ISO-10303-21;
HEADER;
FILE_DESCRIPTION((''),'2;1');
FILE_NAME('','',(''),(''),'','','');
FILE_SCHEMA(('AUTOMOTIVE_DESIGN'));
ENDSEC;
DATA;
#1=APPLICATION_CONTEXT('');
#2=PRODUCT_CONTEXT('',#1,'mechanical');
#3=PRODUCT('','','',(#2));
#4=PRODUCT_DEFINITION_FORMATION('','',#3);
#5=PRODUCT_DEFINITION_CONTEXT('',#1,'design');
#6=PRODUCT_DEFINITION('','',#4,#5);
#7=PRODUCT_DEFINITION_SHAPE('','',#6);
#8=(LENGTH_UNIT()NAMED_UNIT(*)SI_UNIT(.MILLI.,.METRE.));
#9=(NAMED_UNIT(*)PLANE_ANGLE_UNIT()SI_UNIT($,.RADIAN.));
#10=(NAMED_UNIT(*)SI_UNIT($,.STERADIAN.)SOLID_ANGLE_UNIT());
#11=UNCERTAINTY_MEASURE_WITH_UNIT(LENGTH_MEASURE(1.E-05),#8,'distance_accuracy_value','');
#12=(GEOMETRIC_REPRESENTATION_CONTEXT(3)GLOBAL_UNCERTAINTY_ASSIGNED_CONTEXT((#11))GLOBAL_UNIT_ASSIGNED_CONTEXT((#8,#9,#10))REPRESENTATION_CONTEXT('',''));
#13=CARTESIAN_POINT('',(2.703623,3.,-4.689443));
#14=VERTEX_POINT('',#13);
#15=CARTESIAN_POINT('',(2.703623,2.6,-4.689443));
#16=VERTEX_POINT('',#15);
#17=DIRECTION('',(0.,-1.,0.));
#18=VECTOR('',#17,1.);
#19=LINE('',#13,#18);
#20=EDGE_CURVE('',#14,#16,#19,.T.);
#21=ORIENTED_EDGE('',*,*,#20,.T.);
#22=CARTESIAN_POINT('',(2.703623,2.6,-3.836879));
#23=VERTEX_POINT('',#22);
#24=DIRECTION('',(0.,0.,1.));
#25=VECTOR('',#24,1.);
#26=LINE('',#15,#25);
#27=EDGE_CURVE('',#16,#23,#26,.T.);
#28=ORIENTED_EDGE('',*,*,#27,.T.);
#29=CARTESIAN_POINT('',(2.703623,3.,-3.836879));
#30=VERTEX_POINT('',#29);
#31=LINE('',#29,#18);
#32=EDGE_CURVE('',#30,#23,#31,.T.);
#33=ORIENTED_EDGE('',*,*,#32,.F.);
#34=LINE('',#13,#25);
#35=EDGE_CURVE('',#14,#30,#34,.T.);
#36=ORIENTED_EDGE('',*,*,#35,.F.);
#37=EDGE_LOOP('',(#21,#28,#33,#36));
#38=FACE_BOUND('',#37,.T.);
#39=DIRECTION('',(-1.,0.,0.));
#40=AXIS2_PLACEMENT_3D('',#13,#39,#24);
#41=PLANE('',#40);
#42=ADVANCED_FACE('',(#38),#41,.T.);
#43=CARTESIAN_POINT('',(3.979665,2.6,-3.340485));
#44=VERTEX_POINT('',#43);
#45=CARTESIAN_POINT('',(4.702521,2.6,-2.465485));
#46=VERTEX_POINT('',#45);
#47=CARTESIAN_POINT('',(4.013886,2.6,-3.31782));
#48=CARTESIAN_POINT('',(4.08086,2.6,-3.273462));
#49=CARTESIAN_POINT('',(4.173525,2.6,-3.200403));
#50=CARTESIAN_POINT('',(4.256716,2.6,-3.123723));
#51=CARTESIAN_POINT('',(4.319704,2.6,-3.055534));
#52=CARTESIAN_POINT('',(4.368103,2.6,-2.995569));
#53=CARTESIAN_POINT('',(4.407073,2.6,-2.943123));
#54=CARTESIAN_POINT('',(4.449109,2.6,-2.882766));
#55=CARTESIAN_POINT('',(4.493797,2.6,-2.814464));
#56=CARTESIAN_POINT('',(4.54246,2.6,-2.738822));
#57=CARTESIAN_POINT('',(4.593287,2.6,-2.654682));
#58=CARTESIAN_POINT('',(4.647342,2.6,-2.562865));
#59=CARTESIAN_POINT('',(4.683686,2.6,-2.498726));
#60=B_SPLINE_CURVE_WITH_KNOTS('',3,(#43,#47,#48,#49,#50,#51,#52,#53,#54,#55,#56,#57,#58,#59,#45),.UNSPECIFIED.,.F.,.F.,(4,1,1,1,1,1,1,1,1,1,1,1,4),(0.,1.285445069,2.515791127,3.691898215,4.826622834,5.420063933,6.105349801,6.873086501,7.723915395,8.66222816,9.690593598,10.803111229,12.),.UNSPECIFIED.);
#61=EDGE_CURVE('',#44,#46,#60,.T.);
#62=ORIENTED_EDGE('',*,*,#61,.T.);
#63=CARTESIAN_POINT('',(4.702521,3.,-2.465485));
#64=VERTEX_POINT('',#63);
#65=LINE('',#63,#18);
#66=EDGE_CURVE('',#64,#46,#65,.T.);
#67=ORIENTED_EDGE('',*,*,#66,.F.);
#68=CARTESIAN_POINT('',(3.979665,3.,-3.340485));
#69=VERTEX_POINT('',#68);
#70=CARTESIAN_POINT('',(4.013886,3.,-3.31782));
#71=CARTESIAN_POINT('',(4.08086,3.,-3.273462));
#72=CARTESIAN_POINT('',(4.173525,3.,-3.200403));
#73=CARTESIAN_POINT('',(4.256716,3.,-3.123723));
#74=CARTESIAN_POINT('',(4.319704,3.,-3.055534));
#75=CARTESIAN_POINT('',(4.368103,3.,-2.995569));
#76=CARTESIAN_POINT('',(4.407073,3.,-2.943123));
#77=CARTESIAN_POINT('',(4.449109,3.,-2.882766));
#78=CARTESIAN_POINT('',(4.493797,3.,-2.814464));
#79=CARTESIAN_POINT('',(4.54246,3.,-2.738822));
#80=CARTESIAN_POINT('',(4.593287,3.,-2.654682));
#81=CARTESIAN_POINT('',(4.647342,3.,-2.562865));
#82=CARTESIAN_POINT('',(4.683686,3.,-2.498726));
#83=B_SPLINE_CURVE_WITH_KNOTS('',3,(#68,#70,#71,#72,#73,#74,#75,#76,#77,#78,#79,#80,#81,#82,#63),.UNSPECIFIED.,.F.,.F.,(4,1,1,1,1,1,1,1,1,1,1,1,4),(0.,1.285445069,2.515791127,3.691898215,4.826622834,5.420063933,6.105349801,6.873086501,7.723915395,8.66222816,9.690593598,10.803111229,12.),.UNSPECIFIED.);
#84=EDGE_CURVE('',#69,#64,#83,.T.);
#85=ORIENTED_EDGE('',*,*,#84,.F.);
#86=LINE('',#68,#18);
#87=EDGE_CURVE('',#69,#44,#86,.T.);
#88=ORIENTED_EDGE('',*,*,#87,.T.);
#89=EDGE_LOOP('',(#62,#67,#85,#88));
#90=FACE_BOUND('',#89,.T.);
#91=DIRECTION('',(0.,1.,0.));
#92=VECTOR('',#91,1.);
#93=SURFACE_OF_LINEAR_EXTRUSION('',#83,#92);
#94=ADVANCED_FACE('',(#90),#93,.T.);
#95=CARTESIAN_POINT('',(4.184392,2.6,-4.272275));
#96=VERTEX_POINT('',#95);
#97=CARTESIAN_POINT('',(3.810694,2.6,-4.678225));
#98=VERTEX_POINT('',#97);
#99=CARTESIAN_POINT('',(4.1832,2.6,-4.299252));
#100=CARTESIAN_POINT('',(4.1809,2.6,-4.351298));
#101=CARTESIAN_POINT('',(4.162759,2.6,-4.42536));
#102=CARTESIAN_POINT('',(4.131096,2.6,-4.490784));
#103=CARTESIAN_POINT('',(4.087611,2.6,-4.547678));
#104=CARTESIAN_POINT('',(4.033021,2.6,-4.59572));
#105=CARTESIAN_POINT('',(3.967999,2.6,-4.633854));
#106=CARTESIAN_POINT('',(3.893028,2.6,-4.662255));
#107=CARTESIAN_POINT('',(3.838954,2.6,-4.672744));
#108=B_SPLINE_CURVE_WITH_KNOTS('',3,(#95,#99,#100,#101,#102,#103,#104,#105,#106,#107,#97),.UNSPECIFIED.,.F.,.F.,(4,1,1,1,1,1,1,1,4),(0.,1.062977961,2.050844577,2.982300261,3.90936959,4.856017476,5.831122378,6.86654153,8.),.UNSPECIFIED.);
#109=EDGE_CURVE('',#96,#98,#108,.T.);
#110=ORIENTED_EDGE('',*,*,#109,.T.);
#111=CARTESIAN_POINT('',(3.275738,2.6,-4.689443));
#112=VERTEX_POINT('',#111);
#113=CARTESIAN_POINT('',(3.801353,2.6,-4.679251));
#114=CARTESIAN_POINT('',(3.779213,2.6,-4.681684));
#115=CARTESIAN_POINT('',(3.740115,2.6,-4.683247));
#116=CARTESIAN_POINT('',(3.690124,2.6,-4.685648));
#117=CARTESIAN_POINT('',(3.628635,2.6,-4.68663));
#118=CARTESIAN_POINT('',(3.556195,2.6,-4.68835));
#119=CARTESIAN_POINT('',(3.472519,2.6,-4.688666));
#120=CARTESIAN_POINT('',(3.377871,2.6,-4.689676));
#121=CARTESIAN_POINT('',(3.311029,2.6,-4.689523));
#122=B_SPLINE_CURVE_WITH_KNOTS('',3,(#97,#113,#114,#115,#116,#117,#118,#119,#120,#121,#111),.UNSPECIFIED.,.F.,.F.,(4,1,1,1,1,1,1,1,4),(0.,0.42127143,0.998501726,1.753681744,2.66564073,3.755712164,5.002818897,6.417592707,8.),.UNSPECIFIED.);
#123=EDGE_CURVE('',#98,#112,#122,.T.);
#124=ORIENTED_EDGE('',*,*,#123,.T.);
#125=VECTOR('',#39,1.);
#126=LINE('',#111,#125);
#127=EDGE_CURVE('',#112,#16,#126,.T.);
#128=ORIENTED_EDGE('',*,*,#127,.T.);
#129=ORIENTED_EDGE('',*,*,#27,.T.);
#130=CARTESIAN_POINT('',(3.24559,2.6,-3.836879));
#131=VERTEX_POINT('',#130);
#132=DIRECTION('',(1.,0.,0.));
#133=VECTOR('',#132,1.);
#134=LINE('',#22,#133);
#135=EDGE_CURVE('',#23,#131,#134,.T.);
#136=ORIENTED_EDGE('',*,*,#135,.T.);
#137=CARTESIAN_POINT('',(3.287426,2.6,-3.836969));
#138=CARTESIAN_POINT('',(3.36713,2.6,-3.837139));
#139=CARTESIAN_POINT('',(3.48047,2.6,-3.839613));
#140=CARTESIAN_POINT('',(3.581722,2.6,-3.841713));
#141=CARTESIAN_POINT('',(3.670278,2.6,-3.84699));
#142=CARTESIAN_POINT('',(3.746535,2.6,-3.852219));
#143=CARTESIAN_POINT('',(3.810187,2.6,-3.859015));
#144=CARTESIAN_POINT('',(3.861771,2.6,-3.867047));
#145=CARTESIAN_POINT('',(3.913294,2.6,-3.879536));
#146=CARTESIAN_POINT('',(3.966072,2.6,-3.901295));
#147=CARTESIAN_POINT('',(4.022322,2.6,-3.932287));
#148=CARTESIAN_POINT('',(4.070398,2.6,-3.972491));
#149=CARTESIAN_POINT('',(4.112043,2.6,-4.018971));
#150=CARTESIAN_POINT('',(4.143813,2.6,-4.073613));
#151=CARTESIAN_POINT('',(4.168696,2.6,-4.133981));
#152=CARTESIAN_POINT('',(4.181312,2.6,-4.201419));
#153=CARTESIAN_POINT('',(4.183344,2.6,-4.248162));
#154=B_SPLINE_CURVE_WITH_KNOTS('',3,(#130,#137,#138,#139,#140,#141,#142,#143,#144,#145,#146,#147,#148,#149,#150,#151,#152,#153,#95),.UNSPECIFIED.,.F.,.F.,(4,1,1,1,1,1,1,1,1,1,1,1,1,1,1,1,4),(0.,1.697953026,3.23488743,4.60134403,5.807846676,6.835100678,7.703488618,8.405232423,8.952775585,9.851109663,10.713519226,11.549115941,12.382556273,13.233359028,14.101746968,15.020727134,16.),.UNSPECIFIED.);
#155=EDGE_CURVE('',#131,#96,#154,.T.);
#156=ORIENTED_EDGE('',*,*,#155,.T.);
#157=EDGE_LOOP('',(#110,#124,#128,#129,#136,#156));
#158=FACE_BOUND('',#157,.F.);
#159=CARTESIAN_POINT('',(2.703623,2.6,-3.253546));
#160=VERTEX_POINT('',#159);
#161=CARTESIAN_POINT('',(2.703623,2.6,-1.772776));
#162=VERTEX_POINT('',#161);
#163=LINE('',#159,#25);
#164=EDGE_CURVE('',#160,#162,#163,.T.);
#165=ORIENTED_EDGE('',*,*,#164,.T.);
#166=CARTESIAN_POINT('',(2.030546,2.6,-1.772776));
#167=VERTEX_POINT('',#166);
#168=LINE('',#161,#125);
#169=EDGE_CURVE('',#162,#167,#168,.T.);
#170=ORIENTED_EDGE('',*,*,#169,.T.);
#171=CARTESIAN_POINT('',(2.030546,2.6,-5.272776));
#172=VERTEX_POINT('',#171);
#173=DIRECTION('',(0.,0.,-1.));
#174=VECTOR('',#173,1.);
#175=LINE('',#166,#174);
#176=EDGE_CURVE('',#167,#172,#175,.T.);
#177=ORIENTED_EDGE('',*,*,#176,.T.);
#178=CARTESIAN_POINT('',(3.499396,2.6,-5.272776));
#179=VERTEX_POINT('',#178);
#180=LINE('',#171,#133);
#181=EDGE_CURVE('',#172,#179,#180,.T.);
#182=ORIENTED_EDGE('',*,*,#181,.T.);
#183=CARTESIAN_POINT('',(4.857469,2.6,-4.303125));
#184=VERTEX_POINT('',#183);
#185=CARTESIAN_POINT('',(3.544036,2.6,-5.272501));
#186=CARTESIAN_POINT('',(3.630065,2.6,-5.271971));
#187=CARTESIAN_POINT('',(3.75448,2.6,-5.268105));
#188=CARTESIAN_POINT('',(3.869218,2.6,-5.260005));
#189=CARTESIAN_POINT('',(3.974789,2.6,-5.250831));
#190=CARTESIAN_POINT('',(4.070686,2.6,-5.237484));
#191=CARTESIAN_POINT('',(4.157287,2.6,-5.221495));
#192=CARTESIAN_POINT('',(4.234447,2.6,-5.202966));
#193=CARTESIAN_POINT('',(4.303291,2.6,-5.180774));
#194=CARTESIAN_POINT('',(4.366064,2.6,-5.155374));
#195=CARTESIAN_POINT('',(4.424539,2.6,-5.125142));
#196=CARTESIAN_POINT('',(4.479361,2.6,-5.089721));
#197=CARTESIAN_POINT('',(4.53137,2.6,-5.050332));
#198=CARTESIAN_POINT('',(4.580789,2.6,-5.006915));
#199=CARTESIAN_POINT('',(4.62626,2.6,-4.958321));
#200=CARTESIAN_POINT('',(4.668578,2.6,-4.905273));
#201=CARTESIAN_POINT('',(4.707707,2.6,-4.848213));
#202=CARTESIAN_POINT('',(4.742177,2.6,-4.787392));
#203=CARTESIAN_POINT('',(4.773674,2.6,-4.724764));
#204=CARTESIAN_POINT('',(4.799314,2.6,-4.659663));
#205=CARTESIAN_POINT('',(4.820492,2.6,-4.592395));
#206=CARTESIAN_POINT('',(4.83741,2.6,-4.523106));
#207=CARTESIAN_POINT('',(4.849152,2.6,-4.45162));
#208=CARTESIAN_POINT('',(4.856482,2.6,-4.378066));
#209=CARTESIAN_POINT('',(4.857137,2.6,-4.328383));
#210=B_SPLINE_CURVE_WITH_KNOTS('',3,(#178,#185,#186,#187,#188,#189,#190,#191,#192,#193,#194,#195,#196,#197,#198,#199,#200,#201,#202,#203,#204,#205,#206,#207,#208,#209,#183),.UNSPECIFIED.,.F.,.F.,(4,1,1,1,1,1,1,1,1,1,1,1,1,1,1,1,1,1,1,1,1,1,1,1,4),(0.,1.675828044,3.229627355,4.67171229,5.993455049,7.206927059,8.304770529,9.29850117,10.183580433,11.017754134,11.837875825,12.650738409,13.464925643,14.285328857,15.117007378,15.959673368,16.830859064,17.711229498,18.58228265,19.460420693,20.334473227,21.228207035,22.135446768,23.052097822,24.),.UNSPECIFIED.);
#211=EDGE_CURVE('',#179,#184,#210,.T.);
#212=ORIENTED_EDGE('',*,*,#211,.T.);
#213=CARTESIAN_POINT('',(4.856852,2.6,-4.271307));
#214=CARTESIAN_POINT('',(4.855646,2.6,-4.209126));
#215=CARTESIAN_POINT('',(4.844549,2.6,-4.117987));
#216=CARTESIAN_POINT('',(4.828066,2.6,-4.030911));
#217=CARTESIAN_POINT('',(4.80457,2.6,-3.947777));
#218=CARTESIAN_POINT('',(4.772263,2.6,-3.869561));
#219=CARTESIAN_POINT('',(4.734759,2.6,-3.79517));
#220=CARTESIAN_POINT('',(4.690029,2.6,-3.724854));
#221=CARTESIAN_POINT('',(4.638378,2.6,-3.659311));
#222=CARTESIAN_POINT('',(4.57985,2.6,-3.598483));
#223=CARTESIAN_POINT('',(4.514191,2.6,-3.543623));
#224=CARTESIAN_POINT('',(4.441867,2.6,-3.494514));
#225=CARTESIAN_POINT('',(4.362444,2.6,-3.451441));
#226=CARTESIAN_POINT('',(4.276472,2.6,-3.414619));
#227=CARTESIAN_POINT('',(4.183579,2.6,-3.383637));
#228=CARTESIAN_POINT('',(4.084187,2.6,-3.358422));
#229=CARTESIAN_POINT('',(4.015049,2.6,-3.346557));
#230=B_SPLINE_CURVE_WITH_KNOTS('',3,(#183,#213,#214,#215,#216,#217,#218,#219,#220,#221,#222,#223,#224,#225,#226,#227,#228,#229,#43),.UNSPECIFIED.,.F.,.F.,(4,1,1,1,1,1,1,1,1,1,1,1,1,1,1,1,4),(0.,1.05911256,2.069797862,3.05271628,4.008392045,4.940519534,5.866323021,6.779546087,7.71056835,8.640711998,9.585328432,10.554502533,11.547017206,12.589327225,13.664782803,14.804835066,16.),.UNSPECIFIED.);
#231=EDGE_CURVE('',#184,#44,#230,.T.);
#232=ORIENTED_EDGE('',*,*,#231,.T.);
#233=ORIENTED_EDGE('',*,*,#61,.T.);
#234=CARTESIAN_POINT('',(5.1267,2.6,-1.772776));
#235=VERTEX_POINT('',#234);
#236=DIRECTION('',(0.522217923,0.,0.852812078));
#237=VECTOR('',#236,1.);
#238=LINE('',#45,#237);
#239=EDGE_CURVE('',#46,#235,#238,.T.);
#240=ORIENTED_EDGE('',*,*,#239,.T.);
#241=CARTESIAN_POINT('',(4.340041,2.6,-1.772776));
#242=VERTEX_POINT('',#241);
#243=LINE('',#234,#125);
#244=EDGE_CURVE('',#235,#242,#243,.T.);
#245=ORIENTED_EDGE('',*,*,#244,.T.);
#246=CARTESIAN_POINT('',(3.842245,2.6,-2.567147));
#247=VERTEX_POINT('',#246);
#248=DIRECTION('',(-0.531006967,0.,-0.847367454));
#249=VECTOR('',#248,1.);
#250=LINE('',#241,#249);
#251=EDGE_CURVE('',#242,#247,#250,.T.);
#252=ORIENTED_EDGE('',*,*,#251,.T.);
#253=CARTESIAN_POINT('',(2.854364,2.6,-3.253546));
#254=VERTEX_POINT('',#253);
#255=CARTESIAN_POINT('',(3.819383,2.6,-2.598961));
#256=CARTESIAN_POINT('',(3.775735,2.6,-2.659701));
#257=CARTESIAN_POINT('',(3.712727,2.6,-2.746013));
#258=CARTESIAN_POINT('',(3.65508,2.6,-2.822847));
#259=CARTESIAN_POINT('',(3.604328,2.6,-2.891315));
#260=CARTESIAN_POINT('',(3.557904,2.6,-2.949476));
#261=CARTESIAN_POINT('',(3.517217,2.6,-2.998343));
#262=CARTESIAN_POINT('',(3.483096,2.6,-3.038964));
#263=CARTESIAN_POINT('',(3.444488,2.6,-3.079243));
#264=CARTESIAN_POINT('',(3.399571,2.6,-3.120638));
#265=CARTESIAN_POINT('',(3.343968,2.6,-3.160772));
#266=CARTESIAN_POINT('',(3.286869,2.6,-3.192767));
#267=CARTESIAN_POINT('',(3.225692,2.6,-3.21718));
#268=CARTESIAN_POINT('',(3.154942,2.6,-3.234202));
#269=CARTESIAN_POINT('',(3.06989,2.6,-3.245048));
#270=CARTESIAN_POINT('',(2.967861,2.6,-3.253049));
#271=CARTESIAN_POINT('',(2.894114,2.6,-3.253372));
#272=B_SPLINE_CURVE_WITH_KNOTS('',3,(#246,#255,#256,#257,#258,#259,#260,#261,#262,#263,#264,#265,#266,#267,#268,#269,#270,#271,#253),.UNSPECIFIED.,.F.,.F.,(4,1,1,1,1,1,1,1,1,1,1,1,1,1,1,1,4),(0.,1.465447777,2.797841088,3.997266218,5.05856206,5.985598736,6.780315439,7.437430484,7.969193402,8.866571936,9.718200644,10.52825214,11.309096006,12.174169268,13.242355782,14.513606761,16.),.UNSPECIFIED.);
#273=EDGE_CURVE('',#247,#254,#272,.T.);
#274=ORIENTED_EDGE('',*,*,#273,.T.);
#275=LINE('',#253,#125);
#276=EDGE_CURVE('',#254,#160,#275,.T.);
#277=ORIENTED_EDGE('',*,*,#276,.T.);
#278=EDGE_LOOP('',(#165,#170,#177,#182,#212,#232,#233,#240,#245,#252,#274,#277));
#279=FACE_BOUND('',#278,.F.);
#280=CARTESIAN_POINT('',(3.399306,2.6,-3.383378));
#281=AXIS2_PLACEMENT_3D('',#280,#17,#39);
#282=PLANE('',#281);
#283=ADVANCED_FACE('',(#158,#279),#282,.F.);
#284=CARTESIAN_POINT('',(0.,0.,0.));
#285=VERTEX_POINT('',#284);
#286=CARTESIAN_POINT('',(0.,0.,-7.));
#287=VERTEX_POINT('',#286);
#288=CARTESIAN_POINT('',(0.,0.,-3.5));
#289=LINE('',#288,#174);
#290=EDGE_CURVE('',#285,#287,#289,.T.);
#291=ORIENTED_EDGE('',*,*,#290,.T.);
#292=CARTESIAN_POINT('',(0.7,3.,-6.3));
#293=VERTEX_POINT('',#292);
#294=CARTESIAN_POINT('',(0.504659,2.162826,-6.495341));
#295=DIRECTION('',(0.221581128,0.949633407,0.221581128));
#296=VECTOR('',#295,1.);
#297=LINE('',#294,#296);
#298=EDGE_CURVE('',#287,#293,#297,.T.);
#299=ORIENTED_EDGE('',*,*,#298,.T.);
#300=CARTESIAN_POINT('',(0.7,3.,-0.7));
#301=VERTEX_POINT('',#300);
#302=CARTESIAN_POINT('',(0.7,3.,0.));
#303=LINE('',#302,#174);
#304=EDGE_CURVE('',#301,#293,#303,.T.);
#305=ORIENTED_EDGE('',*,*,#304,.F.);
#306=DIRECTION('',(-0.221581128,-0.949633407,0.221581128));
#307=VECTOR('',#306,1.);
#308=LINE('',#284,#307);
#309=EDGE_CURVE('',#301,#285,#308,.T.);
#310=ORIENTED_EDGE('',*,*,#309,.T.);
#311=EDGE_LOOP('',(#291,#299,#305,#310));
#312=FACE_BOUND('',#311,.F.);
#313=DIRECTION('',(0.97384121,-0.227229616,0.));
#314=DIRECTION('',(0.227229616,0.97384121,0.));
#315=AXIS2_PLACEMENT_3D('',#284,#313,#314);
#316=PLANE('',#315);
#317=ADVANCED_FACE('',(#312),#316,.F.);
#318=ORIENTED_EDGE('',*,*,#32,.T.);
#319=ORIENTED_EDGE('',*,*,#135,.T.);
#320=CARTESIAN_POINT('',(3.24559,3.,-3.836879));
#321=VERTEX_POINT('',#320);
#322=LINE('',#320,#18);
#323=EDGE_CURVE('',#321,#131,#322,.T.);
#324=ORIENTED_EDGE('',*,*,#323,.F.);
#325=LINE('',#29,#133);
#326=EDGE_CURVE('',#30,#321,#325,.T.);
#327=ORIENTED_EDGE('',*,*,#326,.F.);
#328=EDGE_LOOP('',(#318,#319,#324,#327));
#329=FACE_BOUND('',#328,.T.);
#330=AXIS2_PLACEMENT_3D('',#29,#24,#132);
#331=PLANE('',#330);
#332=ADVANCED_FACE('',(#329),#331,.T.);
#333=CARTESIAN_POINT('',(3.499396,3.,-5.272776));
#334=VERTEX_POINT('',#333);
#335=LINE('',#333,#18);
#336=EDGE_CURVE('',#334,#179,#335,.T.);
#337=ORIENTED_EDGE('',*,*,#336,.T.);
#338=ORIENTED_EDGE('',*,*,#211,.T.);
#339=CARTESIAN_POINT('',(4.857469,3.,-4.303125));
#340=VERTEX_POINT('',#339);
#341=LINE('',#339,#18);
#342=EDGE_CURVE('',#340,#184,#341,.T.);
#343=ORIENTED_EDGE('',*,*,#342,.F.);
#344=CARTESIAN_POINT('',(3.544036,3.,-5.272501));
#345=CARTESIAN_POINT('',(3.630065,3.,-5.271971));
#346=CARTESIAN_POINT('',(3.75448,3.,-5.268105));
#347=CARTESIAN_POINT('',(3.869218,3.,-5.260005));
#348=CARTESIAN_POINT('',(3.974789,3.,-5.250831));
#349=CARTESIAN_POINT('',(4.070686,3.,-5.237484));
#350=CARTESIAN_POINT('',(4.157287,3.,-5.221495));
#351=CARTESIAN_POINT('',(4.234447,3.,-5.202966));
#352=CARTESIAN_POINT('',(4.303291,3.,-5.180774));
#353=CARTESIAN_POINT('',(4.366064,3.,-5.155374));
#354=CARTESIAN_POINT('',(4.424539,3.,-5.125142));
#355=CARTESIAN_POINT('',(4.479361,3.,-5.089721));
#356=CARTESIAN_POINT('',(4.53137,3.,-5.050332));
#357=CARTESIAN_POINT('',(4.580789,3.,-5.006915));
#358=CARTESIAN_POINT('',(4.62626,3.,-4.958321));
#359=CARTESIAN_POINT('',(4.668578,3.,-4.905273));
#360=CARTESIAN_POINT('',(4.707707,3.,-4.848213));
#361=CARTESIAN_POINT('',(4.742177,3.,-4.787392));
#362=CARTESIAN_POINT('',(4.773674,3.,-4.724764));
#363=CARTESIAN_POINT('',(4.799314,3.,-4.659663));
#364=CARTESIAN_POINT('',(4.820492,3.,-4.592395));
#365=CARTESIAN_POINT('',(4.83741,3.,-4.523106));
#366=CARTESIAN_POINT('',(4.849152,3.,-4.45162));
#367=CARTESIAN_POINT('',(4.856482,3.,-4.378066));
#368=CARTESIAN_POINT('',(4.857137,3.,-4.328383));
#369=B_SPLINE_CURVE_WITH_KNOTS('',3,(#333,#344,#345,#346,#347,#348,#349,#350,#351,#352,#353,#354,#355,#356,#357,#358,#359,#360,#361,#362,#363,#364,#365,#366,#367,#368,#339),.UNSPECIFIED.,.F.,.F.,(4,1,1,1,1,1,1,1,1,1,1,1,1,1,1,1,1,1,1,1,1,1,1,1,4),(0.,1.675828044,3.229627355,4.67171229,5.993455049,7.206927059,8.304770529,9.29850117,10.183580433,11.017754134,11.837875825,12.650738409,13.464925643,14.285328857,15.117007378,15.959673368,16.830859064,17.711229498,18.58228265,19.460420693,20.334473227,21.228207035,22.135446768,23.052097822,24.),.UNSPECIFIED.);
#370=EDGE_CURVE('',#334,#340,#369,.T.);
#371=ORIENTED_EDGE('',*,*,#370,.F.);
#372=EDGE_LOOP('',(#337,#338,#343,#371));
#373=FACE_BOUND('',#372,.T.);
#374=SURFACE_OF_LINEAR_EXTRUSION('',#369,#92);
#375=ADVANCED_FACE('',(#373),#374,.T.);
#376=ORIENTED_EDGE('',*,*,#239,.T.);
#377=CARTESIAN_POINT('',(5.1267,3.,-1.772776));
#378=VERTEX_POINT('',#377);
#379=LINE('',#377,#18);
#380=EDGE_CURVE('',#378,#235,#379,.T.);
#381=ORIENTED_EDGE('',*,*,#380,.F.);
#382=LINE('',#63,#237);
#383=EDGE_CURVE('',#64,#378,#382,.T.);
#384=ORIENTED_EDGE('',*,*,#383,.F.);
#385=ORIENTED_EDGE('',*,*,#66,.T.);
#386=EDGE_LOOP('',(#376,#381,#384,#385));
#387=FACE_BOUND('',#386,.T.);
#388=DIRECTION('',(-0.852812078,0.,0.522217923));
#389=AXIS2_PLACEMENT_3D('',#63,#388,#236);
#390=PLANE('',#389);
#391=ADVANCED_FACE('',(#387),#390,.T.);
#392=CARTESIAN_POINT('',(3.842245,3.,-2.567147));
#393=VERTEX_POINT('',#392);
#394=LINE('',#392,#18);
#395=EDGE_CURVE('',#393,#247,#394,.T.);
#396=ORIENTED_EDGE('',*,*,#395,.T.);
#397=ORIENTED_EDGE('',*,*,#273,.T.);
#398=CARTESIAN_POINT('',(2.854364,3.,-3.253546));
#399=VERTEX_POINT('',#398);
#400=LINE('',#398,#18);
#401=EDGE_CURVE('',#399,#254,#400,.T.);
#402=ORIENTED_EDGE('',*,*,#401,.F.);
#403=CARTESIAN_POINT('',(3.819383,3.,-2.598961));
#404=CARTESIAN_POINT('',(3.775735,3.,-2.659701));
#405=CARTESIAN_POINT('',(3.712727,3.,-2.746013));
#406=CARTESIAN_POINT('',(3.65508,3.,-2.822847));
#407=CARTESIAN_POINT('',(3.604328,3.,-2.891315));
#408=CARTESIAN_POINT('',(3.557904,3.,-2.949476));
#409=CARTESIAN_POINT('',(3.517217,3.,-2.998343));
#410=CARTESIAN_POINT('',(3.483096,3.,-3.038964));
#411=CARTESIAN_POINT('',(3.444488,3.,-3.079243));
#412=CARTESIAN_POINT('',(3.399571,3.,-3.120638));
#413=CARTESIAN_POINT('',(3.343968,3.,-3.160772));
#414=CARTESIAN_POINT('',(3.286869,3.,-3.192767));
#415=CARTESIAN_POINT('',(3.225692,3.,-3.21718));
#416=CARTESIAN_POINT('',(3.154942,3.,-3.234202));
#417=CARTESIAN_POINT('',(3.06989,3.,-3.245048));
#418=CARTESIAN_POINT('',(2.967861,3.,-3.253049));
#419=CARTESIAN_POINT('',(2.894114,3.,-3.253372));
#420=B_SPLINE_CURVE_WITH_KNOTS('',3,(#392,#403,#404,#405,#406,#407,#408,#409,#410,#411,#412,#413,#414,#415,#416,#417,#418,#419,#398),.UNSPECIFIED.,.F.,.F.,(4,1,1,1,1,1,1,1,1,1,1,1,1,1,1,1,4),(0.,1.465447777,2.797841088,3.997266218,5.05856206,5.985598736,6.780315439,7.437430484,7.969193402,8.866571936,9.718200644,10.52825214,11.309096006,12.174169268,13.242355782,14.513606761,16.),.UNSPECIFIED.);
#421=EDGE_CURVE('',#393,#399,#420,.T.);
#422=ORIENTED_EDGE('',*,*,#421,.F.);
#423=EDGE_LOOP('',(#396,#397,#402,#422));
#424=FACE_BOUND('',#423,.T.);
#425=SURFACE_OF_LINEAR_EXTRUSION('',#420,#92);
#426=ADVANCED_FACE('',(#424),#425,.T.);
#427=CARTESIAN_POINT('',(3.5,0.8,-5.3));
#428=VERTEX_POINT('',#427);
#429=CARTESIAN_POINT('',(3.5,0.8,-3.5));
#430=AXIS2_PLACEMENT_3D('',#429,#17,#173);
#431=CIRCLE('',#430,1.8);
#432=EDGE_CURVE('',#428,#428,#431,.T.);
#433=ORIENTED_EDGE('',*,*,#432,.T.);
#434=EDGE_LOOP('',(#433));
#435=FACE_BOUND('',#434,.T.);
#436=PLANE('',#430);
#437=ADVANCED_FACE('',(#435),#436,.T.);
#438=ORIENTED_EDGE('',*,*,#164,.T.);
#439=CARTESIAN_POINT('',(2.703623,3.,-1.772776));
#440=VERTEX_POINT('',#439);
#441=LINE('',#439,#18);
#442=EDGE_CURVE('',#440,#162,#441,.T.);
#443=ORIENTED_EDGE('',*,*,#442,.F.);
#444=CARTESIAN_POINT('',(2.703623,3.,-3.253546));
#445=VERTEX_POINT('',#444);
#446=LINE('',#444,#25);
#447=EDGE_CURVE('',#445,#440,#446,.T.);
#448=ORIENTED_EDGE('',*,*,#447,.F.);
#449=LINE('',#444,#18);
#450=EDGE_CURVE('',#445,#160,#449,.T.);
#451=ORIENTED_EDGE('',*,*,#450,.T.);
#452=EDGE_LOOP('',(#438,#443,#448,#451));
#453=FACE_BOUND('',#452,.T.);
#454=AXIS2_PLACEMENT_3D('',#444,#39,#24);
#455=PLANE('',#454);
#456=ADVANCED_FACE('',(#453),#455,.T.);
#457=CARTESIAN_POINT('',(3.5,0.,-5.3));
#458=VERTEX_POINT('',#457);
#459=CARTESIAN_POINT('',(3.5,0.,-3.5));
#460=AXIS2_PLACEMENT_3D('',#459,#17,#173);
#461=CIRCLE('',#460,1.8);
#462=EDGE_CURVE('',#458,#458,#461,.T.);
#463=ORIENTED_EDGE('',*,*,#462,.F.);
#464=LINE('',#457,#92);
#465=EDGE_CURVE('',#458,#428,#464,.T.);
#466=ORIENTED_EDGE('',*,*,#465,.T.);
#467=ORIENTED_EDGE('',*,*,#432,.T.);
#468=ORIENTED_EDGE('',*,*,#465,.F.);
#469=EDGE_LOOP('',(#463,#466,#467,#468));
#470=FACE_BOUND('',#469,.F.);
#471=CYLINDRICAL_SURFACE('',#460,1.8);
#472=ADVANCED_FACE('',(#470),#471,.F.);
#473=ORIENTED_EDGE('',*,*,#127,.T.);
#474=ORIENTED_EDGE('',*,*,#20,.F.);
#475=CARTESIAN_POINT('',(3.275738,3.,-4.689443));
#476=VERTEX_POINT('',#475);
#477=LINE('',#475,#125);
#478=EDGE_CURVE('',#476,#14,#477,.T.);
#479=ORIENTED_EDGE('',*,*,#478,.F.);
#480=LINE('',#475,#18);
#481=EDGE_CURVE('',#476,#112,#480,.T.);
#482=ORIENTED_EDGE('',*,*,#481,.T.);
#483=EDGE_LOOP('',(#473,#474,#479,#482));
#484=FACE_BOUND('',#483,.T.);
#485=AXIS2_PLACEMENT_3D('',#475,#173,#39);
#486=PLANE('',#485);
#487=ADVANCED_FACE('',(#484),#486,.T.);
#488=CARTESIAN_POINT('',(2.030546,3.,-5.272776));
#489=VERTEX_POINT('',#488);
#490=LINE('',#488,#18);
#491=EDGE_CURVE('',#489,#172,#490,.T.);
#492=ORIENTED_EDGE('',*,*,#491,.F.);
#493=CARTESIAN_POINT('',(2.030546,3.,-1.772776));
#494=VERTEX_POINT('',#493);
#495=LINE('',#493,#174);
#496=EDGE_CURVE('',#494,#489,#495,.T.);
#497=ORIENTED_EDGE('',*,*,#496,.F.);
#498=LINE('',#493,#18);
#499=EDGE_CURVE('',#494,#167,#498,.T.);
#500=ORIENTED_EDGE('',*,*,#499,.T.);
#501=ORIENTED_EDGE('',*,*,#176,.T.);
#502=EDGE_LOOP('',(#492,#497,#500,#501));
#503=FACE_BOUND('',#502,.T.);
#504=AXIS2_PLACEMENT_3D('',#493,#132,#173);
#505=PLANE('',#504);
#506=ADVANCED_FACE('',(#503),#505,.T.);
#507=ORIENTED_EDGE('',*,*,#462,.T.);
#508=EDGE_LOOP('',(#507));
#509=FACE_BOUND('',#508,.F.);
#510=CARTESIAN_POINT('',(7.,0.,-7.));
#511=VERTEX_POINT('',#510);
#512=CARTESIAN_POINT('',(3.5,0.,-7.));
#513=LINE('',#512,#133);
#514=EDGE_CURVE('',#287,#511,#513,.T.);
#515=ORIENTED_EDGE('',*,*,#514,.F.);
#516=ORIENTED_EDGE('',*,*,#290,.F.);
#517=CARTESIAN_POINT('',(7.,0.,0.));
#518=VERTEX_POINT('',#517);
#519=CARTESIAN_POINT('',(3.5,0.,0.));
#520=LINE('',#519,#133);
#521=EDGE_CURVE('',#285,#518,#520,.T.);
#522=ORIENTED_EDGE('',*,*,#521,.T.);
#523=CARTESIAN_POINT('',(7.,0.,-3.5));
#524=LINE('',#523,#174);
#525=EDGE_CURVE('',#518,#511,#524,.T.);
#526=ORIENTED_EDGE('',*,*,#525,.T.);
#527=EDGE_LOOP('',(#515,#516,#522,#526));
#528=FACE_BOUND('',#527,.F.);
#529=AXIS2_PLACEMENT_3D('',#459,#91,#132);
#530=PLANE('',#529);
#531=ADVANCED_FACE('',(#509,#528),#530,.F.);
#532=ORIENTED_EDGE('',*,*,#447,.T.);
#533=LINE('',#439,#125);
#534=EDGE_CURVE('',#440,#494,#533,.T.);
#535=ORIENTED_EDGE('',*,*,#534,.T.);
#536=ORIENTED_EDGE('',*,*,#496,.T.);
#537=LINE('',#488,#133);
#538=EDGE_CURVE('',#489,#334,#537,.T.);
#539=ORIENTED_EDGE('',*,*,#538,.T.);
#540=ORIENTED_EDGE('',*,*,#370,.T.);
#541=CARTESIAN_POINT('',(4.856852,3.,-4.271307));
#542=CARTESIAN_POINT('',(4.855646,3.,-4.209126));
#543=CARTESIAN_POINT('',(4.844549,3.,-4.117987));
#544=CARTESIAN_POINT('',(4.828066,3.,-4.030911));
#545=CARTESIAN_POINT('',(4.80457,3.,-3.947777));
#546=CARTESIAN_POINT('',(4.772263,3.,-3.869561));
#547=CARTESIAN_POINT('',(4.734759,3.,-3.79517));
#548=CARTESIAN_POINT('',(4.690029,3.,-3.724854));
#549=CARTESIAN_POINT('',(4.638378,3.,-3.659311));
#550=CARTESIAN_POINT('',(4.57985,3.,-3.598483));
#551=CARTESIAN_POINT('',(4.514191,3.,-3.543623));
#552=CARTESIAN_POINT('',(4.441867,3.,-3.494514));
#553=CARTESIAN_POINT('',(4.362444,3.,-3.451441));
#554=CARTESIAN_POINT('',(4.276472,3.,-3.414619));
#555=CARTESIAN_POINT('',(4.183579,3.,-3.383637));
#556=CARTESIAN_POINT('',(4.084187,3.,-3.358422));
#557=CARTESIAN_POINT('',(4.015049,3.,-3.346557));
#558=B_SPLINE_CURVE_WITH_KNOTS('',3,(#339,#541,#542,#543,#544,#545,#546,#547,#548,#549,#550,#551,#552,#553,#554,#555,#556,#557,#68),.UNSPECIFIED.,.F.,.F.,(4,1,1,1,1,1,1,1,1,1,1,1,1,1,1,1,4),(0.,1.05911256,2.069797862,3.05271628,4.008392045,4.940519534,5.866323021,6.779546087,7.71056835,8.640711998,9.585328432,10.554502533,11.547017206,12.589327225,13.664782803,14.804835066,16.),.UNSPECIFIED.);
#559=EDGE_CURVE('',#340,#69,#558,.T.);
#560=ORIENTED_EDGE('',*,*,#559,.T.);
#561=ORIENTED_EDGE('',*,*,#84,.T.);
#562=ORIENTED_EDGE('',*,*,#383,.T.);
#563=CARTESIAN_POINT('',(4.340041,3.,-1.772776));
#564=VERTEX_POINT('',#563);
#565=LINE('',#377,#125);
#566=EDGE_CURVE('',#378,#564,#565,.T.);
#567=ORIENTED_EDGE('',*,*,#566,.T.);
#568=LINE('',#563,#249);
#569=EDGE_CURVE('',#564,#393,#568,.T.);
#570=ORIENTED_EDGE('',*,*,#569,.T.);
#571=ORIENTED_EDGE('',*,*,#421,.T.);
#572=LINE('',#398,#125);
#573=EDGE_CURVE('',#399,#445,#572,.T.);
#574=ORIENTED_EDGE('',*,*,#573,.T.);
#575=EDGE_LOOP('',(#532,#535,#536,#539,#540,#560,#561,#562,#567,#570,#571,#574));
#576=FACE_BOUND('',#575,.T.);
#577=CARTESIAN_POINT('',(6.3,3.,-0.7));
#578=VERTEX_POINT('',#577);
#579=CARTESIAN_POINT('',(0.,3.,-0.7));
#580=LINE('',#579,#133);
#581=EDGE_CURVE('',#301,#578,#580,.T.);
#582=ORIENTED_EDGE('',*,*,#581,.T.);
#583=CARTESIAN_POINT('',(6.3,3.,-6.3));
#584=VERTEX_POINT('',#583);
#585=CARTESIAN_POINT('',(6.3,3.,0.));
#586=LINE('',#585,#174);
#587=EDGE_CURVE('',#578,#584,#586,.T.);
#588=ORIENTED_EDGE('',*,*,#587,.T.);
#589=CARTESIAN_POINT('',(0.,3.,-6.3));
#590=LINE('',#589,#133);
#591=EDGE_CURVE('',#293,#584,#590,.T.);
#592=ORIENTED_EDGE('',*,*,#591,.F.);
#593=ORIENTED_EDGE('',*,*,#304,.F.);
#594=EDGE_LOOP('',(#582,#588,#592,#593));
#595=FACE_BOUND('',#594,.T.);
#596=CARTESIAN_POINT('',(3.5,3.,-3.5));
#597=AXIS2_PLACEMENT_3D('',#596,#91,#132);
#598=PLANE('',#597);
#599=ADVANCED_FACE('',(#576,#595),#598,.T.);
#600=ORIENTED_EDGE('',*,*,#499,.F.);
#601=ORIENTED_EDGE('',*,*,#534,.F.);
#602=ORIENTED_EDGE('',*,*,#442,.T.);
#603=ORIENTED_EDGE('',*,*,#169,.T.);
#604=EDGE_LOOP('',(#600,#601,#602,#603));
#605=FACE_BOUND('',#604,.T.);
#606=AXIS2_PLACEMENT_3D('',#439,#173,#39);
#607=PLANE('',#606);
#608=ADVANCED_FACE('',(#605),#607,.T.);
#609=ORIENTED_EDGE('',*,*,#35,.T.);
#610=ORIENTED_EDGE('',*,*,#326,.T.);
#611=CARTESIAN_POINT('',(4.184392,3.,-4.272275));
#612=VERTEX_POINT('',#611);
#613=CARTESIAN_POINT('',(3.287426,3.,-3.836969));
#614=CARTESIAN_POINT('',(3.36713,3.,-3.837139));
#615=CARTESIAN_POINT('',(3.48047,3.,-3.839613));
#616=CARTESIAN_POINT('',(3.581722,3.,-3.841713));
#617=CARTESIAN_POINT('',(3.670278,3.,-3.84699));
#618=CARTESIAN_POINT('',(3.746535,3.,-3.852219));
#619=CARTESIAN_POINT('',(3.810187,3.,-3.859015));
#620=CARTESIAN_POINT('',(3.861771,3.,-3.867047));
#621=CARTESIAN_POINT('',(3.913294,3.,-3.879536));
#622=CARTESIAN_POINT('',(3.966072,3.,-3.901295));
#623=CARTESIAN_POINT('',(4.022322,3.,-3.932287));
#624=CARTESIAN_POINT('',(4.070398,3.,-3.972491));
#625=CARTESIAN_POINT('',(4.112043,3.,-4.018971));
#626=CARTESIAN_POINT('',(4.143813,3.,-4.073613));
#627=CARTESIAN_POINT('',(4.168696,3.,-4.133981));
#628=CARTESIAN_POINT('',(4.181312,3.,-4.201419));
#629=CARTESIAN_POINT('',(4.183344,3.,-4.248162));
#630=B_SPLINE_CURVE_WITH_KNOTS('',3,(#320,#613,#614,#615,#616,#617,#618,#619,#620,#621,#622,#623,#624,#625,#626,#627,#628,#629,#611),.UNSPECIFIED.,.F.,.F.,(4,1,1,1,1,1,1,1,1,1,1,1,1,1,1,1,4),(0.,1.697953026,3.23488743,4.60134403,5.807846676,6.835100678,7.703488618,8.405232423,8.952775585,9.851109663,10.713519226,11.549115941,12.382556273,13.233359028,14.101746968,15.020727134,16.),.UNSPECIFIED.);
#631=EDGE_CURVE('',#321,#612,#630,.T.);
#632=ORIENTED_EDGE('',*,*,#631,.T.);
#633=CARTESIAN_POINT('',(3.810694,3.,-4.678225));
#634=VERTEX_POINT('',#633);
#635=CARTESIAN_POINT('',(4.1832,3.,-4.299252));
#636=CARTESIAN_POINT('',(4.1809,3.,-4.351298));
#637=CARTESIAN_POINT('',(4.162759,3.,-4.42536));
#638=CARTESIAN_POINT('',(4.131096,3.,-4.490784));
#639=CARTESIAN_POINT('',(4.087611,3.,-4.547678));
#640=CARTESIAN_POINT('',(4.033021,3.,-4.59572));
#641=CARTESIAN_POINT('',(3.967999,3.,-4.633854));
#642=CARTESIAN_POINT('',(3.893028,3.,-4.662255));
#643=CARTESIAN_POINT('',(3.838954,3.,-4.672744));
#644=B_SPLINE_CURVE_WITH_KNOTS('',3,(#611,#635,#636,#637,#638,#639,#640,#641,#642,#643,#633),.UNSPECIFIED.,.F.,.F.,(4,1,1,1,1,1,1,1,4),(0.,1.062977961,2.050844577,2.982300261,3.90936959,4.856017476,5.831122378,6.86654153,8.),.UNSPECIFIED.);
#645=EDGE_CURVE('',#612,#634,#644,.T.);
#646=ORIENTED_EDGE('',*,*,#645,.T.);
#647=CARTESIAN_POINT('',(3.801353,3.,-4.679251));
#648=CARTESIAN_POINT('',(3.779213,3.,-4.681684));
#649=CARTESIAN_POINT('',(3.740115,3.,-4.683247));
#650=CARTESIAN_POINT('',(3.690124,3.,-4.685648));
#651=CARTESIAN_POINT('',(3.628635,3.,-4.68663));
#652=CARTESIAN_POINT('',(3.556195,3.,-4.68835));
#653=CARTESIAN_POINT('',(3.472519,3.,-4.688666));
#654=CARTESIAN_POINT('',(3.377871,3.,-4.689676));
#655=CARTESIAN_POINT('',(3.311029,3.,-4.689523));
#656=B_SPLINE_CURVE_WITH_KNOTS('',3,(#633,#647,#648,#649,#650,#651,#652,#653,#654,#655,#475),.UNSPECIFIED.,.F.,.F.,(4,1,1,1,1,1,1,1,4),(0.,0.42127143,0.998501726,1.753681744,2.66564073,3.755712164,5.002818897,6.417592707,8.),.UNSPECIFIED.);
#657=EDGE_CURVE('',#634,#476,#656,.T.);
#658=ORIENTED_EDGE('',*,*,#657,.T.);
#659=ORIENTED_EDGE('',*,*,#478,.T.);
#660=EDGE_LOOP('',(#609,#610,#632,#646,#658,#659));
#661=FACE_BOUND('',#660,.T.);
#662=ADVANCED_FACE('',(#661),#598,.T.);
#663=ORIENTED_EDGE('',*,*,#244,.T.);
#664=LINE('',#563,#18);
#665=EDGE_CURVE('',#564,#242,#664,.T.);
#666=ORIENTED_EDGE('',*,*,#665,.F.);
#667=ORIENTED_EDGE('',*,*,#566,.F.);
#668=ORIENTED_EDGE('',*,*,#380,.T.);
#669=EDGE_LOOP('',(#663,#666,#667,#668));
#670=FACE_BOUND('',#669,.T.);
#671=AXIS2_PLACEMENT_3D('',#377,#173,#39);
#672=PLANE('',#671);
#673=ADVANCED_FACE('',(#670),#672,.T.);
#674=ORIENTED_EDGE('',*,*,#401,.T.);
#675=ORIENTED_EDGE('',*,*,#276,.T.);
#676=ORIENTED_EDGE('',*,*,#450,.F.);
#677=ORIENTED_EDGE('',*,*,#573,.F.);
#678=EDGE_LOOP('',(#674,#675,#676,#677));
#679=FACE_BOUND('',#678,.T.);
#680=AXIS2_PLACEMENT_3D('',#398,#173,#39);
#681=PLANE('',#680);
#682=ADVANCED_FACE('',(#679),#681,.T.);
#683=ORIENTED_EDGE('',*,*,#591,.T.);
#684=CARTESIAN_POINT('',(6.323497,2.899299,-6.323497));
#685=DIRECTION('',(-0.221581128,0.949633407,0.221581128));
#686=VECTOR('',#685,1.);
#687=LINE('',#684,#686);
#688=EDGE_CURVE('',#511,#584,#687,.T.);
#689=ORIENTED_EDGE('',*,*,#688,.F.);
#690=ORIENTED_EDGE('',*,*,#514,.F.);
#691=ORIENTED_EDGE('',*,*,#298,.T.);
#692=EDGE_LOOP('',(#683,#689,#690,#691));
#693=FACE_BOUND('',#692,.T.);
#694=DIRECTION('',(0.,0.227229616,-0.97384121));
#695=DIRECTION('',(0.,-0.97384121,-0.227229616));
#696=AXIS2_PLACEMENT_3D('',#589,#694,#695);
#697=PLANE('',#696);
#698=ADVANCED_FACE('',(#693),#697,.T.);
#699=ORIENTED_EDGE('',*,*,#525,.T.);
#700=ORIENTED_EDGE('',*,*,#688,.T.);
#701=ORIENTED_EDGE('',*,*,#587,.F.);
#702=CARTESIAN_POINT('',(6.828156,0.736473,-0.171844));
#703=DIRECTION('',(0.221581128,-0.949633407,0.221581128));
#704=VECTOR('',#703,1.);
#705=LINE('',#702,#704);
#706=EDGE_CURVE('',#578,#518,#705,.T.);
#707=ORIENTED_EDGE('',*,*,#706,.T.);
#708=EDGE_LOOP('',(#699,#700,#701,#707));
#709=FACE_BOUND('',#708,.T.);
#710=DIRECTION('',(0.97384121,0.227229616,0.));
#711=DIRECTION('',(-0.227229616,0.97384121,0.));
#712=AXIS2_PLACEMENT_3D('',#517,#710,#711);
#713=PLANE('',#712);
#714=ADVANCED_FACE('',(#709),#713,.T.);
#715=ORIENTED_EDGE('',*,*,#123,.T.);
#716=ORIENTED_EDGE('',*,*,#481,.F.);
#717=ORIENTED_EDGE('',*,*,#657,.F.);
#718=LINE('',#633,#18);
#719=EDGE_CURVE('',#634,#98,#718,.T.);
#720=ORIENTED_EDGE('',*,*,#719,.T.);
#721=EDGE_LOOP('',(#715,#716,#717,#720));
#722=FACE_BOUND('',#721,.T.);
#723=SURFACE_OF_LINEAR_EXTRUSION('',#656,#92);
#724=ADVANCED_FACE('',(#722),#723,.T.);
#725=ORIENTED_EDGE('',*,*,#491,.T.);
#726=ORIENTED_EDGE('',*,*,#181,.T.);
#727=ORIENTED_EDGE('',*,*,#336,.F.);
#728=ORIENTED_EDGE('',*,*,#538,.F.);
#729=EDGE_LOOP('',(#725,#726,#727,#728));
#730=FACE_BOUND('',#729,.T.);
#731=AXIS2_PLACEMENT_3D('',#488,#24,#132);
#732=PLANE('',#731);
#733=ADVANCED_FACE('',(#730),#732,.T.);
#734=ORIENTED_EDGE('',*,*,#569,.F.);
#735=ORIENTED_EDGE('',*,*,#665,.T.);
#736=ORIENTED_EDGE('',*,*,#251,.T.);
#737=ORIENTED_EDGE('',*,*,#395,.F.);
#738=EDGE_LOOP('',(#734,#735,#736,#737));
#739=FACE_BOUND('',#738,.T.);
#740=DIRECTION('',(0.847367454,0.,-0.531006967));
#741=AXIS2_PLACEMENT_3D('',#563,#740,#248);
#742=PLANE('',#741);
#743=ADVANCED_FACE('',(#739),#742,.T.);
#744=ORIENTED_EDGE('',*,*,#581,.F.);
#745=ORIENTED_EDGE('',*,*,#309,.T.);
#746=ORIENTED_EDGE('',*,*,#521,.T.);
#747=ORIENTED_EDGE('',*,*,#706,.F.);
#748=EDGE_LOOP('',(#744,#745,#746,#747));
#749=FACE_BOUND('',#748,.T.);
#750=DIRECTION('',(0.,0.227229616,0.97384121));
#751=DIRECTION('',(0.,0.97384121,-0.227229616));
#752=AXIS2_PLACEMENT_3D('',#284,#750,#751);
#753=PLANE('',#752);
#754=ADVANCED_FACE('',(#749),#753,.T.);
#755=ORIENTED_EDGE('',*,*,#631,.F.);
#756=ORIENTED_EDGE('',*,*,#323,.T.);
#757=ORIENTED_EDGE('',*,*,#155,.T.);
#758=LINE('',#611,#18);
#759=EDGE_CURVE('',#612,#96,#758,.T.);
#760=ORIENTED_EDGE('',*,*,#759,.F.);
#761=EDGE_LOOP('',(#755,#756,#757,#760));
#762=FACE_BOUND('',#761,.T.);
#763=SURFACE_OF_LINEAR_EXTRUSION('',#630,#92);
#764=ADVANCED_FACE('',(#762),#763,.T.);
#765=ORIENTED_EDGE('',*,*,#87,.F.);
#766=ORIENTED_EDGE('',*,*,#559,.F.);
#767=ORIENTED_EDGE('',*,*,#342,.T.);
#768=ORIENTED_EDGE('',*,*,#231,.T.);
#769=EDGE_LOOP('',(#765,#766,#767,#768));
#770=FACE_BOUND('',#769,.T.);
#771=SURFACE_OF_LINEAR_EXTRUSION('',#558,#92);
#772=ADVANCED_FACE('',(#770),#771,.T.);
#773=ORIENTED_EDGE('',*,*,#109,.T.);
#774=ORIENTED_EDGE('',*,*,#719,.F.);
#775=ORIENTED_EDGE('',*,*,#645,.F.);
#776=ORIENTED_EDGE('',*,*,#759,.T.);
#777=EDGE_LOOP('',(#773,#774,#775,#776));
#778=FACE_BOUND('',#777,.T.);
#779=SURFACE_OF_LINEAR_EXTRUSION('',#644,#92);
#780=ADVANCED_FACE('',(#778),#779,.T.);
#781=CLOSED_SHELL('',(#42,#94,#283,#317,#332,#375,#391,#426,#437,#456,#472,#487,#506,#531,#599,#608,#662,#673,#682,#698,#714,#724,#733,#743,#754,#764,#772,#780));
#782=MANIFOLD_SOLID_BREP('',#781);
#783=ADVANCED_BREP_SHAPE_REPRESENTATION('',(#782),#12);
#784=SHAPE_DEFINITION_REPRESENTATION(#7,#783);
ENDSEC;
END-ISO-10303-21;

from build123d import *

# Parameters (mm, degrees)
SKETCH1_W           = 7
SKETCH1_H           = 7
BOSS_EXTRUDE1_DEPTH = 3
CUT_EXTRUDE1_DEPTH  = 7
CUT_EXTRUDE2_DEPTH  = 11
SKETCH4_R           = 1.8
CUT_EXTRUDE3_DEPTH  = 0.8
CUT_EXTRUDE4_DEPTH  = 0.4


with BuildPart() as part:
    # Sketch1 → Boss-Extrude1 (new body)
    with BuildSketch(Plane(origin=(0, 0, 0), x_dir=(1, 0, 0), z_dir=(0, 1, 0))):
        with Locations((3.5, 3.5)):
            Rectangle(SKETCH1_W, SKETCH1_H)
    extrude(amount=BOSS_EXTRUDE1_DEPTH)

    # Sketch2 → Cut-Extrude1 (cut)
    with BuildSketch(Plane.XY):
        Polygon((0, 0), (0.7, 3), (0, 3), align=None)
        Polygon((7, 0), (6.3, 3), (7, 3), align=None)
    extrude(amount=-CUT_EXTRUDE1_DEPTH, mode=Mode.SUBTRACT)

    # Sketch3 → Cut-Extrude2 (cut)
    with BuildSketch(Plane(origin=(0, 0, 0), x_dir=(0, 0, -1), z_dir=(1, 0, 0))):
        Polygon((0, 0), (0.7, 3), (0, 3), align=None)
        Polygon((7, 3), (6.3, 3), (7, 0), align=None)
    extrude(amount=CUT_EXTRUDE2_DEPTH, mode=Mode.SUBTRACT)

    # Sketch4 → Cut-Extrude3 (cut)
    with BuildSketch(Plane.XZ):
        with Locations(Location((3.5, -3.5, 0), (0, 0, 270))):
            Circle(SKETCH4_R)
    extrude(amount=-CUT_EXTRUDE3_DEPTH, mode=Mode.SUBTRACT)

    # Sketch5 → Cut-Extrude4 (cut)
    with BuildSketch(Plane(origin=(0, 3, 0), x_dir=(1, 0, 0), z_dir=(0, 1, 0))):
        with BuildLine():
            Line((2.030546131, 1.772776287), (2.030546131, 5.272776287))
            Line((2.030546131, 5.272776287), (3.499396292, 5.272776287))
            add(Edge.make_bspline(
                [(3.499396292, 5.272776287), (3.5440361, 5.272501173), (3.63006518, 5.271970977), (3.754480014, 5.268104688), (3.869218418, 5.260004585), (3.974789374, 5.250831153), (4.070685816, 5.2374844), (4.157286901, 5.221495121), (4.23444683, 5.202965752), (4.303291413, 5.180773827), (4.366063686, 5.155374398), (4.424539139, 5.125141932), (4.479360726, 5.089720882), (4.531370453, 5.050332114), (4.580788559, 5.006915106), (4.626260263, 4.958320831), (4.668577803, 4.90527287), (4.707707034, 4.848212589), (4.742177437, 4.787391941), (4.773674335, 4.724764195), (4.799313998, 4.659662899), (4.820492127, 4.592394727), (4.837409543, 4.523105729), (4.849151659, 4.451619746), (4.856482135, 4.378066169), (4.857136528, 4.328382861), (4.857469208, 4.303124845)],
                knots=[0, 0, 0, 0, 1.675828044, 3.229627355, 4.67171229, 5.993455049, 7.206927059, 8.304770529, 9.29850117, 10.183580433, 11.017754134, 11.837875825, 12.650738409, 13.464925643, 14.285328857, 15.117007378, 15.959673368, 16.830859064, 17.711229498, 18.58228265, 19.460420693, 20.334473227, 21.228207035, 22.135446768, 23.052097822, 24, 24, 24, 24], degree=3))
            add(Edge.make_bspline(
                [(4.857469208, 4.303124845), (4.856852136, 4.271306813), (4.855646207, 4.20912561), (4.844548611, 4.117987318), (4.828065847, 4.030911185), (4.804569794, 3.947776576), (4.772263199, 3.869561272), (4.734759192, 3.795169587), (4.690029362, 3.724853862), (4.638377601, 3.659311167), (4.579850151, 3.598483484), (4.51419052, 3.543622601), (4.441867499, 3.494514108), (4.362443578, 3.451441194), (4.276471789, 3.414618521), (4.18357933, 3.383637045), (4.084186726, 3.358421575), (4.015049286, 3.346556943), (3.979664721, 3.34048462)],
                knots=[0, 0, 0, 0, 1.05911256, 2.069797862, 3.05271628, 4.008392045, 4.940519534, 5.866323021, 6.779546087, 7.71056835, 8.640711998, 9.585328432, 10.554502533, 11.547017206, 12.589327225, 13.664782803, 14.804835066, 16, 16, 16, 16], degree=3))
            add(Edge.make_bspline(
                [(3.979664721, 3.34048462), (4.013885569, 3.317819831), (4.080860431, 3.27346175), (4.173524973, 3.200403435), (4.256715746, 3.123723082), (4.319703603, 3.055534143), (4.368103279, 2.995569296), (4.407073288, 2.943123463), (4.44910869, 2.882765916), (4.493797209, 2.814463953), (4.542459952, 2.738821883), (4.593287063, 2.65468189), (4.647342172, 2.562864685), (4.683685664, 2.49872572), (4.702521292, 2.46548462)],
                knots=[0, 0, 0, 0, 1.285445069, 2.515791127, 3.691898215, 4.826622834, 5.420063933, 6.105349801, 6.873086501, 7.723915395, 8.66222816, 9.690593598, 10.803111229, 12, 12, 12, 12], degree=3))
            Line((4.702521292, 2.46548462), (5.126699978, 1.772776287))
            Line((5.126699978, 1.772776287), (4.340041324, 1.772776287))
            Line((4.340041324, 1.772776287), (3.842244849, 2.56714728))
            add(Edge.make_bspline(
                [(3.842244849, 2.56714728), (3.819383068, 2.598961265), (3.775735226, 2.659700703), (3.71272687, 2.746013416), (3.655079817, 2.822847232), (3.604328246, 2.891315046), (3.55790415, 2.949475634), (3.517217149, 2.998342534), (3.483095985, 3.038964357), (3.444487802, 3.079242648), (3.399571281, 3.120637513), (3.343968216, 3.16077219), (3.286869026, 3.192767131), (3.225691806, 3.217180023), (3.154942198, 3.234202313), (3.069889966, 3.245047676), (2.967860868, 3.253049263), (2.894114271, 3.253371714), (2.85436424, 3.253545518)],
                knots=[0, 0, 0, 0, 1.465447777, 2.797841088, 3.997266218, 5.05856206, 5.985598736, 6.780315439, 7.437430484, 7.969193402, 8.866571936, 9.718200644, 10.52825214, 11.309096006, 12.174169268, 13.242355782, 14.513606761, 16, 16, 16, 16], degree=3))
            Line((2.85436424, 3.253545518), (2.703623054, 3.253545518))
            Line((2.703623054, 3.253545518), (2.703623054, 1.772776287))
            Line((2.703623054, 1.772776287), (2.030546131, 1.772776287))
        make_face()
        with BuildLine():
            Line((2.703623054, 3.836878851), (3.245590202, 3.836878851))
            add(Edge.make_bspline(
                [(3.245590202, 3.836878851), (3.287425822, 3.836968507), (3.367129748, 3.837139318), (3.480470316, 3.839613437), (3.581721608, 3.841713365), (3.670277711, 3.846989524), (3.746534832, 3.852218694), (3.810187065, 3.859014719), (3.861770698, 3.867047401), (3.913294077, 3.879536112), (3.966071524, 3.901295225), (4.022322296, 3.932286607), (4.070398439, 3.972490835), (4.112043483, 4.018970988), (4.143812817, 4.073612635), (4.16869572, 4.133981429), (4.181311879, 4.201418818), (4.183343969, 4.24816171), (4.184392285, 4.272275486)],
                knots=[0, 0, 0, 0, 1.697953026, 3.23488743, 4.60134403, 5.807846676, 6.835100678, 7.703488618, 8.405232423, 8.952775585, 9.851109663, 10.713519226, 11.549115941, 12.382556273, 13.233359028, 14.101746968, 15.020727134, 16, 16, 16, 16], degree=3))
            add(Edge.make_bspline(
                [(4.184392285, 4.272275486), (4.183200022, 4.299251728), (4.180899743, 4.351298039), (4.162759412, 4.425360435), (4.131096203, 4.490784365), (4.0876106, 4.547677846), (4.033021276, 4.595719522), (3.967999354, 4.633854155), (3.893027901, 4.662255248), (3.838953649, 4.672743717), (3.810694369, 4.678225005)],
                knots=[0, 0, 0, 0, 1.062977961, 2.050844577, 2.982300261, 3.90936959, 4.856017476, 5.831122378, 6.86654153, 8, 8, 8, 8], degree=3))
            add(Edge.make_bspline(
                [(3.810694369, 4.678225005), (3.801353235, 4.679251395), (3.779212787, 4.681684154), (3.74011538, 4.683246609), (3.690124331, 4.685648271), (3.628634545, 4.686629777), (3.556195371, 4.688350271), (3.472518757, 4.688666197), (3.377870551, 4.689675558), (3.311028641, 4.689523327), (3.275738439, 4.689442953)],
                knots=[0, 0, 0, 0, 0.42127143, 0.998501726, 1.753681744, 2.66564073, 3.755712164, 5.002818897, 6.417592707, 8, 8, 8, 8], degree=3))
            Line((3.275738439, 4.689442953), (2.703623054, 4.689442953))
            Line((2.703623054, 4.689442953), (2.703623054, 3.836878851))
        make_face(mode=Mode.SUBTRACT)
    extrude(amount=-CUT_EXTRUDE4_DEPTH, mode=Mode.SUBTRACT)


solid = part.part
